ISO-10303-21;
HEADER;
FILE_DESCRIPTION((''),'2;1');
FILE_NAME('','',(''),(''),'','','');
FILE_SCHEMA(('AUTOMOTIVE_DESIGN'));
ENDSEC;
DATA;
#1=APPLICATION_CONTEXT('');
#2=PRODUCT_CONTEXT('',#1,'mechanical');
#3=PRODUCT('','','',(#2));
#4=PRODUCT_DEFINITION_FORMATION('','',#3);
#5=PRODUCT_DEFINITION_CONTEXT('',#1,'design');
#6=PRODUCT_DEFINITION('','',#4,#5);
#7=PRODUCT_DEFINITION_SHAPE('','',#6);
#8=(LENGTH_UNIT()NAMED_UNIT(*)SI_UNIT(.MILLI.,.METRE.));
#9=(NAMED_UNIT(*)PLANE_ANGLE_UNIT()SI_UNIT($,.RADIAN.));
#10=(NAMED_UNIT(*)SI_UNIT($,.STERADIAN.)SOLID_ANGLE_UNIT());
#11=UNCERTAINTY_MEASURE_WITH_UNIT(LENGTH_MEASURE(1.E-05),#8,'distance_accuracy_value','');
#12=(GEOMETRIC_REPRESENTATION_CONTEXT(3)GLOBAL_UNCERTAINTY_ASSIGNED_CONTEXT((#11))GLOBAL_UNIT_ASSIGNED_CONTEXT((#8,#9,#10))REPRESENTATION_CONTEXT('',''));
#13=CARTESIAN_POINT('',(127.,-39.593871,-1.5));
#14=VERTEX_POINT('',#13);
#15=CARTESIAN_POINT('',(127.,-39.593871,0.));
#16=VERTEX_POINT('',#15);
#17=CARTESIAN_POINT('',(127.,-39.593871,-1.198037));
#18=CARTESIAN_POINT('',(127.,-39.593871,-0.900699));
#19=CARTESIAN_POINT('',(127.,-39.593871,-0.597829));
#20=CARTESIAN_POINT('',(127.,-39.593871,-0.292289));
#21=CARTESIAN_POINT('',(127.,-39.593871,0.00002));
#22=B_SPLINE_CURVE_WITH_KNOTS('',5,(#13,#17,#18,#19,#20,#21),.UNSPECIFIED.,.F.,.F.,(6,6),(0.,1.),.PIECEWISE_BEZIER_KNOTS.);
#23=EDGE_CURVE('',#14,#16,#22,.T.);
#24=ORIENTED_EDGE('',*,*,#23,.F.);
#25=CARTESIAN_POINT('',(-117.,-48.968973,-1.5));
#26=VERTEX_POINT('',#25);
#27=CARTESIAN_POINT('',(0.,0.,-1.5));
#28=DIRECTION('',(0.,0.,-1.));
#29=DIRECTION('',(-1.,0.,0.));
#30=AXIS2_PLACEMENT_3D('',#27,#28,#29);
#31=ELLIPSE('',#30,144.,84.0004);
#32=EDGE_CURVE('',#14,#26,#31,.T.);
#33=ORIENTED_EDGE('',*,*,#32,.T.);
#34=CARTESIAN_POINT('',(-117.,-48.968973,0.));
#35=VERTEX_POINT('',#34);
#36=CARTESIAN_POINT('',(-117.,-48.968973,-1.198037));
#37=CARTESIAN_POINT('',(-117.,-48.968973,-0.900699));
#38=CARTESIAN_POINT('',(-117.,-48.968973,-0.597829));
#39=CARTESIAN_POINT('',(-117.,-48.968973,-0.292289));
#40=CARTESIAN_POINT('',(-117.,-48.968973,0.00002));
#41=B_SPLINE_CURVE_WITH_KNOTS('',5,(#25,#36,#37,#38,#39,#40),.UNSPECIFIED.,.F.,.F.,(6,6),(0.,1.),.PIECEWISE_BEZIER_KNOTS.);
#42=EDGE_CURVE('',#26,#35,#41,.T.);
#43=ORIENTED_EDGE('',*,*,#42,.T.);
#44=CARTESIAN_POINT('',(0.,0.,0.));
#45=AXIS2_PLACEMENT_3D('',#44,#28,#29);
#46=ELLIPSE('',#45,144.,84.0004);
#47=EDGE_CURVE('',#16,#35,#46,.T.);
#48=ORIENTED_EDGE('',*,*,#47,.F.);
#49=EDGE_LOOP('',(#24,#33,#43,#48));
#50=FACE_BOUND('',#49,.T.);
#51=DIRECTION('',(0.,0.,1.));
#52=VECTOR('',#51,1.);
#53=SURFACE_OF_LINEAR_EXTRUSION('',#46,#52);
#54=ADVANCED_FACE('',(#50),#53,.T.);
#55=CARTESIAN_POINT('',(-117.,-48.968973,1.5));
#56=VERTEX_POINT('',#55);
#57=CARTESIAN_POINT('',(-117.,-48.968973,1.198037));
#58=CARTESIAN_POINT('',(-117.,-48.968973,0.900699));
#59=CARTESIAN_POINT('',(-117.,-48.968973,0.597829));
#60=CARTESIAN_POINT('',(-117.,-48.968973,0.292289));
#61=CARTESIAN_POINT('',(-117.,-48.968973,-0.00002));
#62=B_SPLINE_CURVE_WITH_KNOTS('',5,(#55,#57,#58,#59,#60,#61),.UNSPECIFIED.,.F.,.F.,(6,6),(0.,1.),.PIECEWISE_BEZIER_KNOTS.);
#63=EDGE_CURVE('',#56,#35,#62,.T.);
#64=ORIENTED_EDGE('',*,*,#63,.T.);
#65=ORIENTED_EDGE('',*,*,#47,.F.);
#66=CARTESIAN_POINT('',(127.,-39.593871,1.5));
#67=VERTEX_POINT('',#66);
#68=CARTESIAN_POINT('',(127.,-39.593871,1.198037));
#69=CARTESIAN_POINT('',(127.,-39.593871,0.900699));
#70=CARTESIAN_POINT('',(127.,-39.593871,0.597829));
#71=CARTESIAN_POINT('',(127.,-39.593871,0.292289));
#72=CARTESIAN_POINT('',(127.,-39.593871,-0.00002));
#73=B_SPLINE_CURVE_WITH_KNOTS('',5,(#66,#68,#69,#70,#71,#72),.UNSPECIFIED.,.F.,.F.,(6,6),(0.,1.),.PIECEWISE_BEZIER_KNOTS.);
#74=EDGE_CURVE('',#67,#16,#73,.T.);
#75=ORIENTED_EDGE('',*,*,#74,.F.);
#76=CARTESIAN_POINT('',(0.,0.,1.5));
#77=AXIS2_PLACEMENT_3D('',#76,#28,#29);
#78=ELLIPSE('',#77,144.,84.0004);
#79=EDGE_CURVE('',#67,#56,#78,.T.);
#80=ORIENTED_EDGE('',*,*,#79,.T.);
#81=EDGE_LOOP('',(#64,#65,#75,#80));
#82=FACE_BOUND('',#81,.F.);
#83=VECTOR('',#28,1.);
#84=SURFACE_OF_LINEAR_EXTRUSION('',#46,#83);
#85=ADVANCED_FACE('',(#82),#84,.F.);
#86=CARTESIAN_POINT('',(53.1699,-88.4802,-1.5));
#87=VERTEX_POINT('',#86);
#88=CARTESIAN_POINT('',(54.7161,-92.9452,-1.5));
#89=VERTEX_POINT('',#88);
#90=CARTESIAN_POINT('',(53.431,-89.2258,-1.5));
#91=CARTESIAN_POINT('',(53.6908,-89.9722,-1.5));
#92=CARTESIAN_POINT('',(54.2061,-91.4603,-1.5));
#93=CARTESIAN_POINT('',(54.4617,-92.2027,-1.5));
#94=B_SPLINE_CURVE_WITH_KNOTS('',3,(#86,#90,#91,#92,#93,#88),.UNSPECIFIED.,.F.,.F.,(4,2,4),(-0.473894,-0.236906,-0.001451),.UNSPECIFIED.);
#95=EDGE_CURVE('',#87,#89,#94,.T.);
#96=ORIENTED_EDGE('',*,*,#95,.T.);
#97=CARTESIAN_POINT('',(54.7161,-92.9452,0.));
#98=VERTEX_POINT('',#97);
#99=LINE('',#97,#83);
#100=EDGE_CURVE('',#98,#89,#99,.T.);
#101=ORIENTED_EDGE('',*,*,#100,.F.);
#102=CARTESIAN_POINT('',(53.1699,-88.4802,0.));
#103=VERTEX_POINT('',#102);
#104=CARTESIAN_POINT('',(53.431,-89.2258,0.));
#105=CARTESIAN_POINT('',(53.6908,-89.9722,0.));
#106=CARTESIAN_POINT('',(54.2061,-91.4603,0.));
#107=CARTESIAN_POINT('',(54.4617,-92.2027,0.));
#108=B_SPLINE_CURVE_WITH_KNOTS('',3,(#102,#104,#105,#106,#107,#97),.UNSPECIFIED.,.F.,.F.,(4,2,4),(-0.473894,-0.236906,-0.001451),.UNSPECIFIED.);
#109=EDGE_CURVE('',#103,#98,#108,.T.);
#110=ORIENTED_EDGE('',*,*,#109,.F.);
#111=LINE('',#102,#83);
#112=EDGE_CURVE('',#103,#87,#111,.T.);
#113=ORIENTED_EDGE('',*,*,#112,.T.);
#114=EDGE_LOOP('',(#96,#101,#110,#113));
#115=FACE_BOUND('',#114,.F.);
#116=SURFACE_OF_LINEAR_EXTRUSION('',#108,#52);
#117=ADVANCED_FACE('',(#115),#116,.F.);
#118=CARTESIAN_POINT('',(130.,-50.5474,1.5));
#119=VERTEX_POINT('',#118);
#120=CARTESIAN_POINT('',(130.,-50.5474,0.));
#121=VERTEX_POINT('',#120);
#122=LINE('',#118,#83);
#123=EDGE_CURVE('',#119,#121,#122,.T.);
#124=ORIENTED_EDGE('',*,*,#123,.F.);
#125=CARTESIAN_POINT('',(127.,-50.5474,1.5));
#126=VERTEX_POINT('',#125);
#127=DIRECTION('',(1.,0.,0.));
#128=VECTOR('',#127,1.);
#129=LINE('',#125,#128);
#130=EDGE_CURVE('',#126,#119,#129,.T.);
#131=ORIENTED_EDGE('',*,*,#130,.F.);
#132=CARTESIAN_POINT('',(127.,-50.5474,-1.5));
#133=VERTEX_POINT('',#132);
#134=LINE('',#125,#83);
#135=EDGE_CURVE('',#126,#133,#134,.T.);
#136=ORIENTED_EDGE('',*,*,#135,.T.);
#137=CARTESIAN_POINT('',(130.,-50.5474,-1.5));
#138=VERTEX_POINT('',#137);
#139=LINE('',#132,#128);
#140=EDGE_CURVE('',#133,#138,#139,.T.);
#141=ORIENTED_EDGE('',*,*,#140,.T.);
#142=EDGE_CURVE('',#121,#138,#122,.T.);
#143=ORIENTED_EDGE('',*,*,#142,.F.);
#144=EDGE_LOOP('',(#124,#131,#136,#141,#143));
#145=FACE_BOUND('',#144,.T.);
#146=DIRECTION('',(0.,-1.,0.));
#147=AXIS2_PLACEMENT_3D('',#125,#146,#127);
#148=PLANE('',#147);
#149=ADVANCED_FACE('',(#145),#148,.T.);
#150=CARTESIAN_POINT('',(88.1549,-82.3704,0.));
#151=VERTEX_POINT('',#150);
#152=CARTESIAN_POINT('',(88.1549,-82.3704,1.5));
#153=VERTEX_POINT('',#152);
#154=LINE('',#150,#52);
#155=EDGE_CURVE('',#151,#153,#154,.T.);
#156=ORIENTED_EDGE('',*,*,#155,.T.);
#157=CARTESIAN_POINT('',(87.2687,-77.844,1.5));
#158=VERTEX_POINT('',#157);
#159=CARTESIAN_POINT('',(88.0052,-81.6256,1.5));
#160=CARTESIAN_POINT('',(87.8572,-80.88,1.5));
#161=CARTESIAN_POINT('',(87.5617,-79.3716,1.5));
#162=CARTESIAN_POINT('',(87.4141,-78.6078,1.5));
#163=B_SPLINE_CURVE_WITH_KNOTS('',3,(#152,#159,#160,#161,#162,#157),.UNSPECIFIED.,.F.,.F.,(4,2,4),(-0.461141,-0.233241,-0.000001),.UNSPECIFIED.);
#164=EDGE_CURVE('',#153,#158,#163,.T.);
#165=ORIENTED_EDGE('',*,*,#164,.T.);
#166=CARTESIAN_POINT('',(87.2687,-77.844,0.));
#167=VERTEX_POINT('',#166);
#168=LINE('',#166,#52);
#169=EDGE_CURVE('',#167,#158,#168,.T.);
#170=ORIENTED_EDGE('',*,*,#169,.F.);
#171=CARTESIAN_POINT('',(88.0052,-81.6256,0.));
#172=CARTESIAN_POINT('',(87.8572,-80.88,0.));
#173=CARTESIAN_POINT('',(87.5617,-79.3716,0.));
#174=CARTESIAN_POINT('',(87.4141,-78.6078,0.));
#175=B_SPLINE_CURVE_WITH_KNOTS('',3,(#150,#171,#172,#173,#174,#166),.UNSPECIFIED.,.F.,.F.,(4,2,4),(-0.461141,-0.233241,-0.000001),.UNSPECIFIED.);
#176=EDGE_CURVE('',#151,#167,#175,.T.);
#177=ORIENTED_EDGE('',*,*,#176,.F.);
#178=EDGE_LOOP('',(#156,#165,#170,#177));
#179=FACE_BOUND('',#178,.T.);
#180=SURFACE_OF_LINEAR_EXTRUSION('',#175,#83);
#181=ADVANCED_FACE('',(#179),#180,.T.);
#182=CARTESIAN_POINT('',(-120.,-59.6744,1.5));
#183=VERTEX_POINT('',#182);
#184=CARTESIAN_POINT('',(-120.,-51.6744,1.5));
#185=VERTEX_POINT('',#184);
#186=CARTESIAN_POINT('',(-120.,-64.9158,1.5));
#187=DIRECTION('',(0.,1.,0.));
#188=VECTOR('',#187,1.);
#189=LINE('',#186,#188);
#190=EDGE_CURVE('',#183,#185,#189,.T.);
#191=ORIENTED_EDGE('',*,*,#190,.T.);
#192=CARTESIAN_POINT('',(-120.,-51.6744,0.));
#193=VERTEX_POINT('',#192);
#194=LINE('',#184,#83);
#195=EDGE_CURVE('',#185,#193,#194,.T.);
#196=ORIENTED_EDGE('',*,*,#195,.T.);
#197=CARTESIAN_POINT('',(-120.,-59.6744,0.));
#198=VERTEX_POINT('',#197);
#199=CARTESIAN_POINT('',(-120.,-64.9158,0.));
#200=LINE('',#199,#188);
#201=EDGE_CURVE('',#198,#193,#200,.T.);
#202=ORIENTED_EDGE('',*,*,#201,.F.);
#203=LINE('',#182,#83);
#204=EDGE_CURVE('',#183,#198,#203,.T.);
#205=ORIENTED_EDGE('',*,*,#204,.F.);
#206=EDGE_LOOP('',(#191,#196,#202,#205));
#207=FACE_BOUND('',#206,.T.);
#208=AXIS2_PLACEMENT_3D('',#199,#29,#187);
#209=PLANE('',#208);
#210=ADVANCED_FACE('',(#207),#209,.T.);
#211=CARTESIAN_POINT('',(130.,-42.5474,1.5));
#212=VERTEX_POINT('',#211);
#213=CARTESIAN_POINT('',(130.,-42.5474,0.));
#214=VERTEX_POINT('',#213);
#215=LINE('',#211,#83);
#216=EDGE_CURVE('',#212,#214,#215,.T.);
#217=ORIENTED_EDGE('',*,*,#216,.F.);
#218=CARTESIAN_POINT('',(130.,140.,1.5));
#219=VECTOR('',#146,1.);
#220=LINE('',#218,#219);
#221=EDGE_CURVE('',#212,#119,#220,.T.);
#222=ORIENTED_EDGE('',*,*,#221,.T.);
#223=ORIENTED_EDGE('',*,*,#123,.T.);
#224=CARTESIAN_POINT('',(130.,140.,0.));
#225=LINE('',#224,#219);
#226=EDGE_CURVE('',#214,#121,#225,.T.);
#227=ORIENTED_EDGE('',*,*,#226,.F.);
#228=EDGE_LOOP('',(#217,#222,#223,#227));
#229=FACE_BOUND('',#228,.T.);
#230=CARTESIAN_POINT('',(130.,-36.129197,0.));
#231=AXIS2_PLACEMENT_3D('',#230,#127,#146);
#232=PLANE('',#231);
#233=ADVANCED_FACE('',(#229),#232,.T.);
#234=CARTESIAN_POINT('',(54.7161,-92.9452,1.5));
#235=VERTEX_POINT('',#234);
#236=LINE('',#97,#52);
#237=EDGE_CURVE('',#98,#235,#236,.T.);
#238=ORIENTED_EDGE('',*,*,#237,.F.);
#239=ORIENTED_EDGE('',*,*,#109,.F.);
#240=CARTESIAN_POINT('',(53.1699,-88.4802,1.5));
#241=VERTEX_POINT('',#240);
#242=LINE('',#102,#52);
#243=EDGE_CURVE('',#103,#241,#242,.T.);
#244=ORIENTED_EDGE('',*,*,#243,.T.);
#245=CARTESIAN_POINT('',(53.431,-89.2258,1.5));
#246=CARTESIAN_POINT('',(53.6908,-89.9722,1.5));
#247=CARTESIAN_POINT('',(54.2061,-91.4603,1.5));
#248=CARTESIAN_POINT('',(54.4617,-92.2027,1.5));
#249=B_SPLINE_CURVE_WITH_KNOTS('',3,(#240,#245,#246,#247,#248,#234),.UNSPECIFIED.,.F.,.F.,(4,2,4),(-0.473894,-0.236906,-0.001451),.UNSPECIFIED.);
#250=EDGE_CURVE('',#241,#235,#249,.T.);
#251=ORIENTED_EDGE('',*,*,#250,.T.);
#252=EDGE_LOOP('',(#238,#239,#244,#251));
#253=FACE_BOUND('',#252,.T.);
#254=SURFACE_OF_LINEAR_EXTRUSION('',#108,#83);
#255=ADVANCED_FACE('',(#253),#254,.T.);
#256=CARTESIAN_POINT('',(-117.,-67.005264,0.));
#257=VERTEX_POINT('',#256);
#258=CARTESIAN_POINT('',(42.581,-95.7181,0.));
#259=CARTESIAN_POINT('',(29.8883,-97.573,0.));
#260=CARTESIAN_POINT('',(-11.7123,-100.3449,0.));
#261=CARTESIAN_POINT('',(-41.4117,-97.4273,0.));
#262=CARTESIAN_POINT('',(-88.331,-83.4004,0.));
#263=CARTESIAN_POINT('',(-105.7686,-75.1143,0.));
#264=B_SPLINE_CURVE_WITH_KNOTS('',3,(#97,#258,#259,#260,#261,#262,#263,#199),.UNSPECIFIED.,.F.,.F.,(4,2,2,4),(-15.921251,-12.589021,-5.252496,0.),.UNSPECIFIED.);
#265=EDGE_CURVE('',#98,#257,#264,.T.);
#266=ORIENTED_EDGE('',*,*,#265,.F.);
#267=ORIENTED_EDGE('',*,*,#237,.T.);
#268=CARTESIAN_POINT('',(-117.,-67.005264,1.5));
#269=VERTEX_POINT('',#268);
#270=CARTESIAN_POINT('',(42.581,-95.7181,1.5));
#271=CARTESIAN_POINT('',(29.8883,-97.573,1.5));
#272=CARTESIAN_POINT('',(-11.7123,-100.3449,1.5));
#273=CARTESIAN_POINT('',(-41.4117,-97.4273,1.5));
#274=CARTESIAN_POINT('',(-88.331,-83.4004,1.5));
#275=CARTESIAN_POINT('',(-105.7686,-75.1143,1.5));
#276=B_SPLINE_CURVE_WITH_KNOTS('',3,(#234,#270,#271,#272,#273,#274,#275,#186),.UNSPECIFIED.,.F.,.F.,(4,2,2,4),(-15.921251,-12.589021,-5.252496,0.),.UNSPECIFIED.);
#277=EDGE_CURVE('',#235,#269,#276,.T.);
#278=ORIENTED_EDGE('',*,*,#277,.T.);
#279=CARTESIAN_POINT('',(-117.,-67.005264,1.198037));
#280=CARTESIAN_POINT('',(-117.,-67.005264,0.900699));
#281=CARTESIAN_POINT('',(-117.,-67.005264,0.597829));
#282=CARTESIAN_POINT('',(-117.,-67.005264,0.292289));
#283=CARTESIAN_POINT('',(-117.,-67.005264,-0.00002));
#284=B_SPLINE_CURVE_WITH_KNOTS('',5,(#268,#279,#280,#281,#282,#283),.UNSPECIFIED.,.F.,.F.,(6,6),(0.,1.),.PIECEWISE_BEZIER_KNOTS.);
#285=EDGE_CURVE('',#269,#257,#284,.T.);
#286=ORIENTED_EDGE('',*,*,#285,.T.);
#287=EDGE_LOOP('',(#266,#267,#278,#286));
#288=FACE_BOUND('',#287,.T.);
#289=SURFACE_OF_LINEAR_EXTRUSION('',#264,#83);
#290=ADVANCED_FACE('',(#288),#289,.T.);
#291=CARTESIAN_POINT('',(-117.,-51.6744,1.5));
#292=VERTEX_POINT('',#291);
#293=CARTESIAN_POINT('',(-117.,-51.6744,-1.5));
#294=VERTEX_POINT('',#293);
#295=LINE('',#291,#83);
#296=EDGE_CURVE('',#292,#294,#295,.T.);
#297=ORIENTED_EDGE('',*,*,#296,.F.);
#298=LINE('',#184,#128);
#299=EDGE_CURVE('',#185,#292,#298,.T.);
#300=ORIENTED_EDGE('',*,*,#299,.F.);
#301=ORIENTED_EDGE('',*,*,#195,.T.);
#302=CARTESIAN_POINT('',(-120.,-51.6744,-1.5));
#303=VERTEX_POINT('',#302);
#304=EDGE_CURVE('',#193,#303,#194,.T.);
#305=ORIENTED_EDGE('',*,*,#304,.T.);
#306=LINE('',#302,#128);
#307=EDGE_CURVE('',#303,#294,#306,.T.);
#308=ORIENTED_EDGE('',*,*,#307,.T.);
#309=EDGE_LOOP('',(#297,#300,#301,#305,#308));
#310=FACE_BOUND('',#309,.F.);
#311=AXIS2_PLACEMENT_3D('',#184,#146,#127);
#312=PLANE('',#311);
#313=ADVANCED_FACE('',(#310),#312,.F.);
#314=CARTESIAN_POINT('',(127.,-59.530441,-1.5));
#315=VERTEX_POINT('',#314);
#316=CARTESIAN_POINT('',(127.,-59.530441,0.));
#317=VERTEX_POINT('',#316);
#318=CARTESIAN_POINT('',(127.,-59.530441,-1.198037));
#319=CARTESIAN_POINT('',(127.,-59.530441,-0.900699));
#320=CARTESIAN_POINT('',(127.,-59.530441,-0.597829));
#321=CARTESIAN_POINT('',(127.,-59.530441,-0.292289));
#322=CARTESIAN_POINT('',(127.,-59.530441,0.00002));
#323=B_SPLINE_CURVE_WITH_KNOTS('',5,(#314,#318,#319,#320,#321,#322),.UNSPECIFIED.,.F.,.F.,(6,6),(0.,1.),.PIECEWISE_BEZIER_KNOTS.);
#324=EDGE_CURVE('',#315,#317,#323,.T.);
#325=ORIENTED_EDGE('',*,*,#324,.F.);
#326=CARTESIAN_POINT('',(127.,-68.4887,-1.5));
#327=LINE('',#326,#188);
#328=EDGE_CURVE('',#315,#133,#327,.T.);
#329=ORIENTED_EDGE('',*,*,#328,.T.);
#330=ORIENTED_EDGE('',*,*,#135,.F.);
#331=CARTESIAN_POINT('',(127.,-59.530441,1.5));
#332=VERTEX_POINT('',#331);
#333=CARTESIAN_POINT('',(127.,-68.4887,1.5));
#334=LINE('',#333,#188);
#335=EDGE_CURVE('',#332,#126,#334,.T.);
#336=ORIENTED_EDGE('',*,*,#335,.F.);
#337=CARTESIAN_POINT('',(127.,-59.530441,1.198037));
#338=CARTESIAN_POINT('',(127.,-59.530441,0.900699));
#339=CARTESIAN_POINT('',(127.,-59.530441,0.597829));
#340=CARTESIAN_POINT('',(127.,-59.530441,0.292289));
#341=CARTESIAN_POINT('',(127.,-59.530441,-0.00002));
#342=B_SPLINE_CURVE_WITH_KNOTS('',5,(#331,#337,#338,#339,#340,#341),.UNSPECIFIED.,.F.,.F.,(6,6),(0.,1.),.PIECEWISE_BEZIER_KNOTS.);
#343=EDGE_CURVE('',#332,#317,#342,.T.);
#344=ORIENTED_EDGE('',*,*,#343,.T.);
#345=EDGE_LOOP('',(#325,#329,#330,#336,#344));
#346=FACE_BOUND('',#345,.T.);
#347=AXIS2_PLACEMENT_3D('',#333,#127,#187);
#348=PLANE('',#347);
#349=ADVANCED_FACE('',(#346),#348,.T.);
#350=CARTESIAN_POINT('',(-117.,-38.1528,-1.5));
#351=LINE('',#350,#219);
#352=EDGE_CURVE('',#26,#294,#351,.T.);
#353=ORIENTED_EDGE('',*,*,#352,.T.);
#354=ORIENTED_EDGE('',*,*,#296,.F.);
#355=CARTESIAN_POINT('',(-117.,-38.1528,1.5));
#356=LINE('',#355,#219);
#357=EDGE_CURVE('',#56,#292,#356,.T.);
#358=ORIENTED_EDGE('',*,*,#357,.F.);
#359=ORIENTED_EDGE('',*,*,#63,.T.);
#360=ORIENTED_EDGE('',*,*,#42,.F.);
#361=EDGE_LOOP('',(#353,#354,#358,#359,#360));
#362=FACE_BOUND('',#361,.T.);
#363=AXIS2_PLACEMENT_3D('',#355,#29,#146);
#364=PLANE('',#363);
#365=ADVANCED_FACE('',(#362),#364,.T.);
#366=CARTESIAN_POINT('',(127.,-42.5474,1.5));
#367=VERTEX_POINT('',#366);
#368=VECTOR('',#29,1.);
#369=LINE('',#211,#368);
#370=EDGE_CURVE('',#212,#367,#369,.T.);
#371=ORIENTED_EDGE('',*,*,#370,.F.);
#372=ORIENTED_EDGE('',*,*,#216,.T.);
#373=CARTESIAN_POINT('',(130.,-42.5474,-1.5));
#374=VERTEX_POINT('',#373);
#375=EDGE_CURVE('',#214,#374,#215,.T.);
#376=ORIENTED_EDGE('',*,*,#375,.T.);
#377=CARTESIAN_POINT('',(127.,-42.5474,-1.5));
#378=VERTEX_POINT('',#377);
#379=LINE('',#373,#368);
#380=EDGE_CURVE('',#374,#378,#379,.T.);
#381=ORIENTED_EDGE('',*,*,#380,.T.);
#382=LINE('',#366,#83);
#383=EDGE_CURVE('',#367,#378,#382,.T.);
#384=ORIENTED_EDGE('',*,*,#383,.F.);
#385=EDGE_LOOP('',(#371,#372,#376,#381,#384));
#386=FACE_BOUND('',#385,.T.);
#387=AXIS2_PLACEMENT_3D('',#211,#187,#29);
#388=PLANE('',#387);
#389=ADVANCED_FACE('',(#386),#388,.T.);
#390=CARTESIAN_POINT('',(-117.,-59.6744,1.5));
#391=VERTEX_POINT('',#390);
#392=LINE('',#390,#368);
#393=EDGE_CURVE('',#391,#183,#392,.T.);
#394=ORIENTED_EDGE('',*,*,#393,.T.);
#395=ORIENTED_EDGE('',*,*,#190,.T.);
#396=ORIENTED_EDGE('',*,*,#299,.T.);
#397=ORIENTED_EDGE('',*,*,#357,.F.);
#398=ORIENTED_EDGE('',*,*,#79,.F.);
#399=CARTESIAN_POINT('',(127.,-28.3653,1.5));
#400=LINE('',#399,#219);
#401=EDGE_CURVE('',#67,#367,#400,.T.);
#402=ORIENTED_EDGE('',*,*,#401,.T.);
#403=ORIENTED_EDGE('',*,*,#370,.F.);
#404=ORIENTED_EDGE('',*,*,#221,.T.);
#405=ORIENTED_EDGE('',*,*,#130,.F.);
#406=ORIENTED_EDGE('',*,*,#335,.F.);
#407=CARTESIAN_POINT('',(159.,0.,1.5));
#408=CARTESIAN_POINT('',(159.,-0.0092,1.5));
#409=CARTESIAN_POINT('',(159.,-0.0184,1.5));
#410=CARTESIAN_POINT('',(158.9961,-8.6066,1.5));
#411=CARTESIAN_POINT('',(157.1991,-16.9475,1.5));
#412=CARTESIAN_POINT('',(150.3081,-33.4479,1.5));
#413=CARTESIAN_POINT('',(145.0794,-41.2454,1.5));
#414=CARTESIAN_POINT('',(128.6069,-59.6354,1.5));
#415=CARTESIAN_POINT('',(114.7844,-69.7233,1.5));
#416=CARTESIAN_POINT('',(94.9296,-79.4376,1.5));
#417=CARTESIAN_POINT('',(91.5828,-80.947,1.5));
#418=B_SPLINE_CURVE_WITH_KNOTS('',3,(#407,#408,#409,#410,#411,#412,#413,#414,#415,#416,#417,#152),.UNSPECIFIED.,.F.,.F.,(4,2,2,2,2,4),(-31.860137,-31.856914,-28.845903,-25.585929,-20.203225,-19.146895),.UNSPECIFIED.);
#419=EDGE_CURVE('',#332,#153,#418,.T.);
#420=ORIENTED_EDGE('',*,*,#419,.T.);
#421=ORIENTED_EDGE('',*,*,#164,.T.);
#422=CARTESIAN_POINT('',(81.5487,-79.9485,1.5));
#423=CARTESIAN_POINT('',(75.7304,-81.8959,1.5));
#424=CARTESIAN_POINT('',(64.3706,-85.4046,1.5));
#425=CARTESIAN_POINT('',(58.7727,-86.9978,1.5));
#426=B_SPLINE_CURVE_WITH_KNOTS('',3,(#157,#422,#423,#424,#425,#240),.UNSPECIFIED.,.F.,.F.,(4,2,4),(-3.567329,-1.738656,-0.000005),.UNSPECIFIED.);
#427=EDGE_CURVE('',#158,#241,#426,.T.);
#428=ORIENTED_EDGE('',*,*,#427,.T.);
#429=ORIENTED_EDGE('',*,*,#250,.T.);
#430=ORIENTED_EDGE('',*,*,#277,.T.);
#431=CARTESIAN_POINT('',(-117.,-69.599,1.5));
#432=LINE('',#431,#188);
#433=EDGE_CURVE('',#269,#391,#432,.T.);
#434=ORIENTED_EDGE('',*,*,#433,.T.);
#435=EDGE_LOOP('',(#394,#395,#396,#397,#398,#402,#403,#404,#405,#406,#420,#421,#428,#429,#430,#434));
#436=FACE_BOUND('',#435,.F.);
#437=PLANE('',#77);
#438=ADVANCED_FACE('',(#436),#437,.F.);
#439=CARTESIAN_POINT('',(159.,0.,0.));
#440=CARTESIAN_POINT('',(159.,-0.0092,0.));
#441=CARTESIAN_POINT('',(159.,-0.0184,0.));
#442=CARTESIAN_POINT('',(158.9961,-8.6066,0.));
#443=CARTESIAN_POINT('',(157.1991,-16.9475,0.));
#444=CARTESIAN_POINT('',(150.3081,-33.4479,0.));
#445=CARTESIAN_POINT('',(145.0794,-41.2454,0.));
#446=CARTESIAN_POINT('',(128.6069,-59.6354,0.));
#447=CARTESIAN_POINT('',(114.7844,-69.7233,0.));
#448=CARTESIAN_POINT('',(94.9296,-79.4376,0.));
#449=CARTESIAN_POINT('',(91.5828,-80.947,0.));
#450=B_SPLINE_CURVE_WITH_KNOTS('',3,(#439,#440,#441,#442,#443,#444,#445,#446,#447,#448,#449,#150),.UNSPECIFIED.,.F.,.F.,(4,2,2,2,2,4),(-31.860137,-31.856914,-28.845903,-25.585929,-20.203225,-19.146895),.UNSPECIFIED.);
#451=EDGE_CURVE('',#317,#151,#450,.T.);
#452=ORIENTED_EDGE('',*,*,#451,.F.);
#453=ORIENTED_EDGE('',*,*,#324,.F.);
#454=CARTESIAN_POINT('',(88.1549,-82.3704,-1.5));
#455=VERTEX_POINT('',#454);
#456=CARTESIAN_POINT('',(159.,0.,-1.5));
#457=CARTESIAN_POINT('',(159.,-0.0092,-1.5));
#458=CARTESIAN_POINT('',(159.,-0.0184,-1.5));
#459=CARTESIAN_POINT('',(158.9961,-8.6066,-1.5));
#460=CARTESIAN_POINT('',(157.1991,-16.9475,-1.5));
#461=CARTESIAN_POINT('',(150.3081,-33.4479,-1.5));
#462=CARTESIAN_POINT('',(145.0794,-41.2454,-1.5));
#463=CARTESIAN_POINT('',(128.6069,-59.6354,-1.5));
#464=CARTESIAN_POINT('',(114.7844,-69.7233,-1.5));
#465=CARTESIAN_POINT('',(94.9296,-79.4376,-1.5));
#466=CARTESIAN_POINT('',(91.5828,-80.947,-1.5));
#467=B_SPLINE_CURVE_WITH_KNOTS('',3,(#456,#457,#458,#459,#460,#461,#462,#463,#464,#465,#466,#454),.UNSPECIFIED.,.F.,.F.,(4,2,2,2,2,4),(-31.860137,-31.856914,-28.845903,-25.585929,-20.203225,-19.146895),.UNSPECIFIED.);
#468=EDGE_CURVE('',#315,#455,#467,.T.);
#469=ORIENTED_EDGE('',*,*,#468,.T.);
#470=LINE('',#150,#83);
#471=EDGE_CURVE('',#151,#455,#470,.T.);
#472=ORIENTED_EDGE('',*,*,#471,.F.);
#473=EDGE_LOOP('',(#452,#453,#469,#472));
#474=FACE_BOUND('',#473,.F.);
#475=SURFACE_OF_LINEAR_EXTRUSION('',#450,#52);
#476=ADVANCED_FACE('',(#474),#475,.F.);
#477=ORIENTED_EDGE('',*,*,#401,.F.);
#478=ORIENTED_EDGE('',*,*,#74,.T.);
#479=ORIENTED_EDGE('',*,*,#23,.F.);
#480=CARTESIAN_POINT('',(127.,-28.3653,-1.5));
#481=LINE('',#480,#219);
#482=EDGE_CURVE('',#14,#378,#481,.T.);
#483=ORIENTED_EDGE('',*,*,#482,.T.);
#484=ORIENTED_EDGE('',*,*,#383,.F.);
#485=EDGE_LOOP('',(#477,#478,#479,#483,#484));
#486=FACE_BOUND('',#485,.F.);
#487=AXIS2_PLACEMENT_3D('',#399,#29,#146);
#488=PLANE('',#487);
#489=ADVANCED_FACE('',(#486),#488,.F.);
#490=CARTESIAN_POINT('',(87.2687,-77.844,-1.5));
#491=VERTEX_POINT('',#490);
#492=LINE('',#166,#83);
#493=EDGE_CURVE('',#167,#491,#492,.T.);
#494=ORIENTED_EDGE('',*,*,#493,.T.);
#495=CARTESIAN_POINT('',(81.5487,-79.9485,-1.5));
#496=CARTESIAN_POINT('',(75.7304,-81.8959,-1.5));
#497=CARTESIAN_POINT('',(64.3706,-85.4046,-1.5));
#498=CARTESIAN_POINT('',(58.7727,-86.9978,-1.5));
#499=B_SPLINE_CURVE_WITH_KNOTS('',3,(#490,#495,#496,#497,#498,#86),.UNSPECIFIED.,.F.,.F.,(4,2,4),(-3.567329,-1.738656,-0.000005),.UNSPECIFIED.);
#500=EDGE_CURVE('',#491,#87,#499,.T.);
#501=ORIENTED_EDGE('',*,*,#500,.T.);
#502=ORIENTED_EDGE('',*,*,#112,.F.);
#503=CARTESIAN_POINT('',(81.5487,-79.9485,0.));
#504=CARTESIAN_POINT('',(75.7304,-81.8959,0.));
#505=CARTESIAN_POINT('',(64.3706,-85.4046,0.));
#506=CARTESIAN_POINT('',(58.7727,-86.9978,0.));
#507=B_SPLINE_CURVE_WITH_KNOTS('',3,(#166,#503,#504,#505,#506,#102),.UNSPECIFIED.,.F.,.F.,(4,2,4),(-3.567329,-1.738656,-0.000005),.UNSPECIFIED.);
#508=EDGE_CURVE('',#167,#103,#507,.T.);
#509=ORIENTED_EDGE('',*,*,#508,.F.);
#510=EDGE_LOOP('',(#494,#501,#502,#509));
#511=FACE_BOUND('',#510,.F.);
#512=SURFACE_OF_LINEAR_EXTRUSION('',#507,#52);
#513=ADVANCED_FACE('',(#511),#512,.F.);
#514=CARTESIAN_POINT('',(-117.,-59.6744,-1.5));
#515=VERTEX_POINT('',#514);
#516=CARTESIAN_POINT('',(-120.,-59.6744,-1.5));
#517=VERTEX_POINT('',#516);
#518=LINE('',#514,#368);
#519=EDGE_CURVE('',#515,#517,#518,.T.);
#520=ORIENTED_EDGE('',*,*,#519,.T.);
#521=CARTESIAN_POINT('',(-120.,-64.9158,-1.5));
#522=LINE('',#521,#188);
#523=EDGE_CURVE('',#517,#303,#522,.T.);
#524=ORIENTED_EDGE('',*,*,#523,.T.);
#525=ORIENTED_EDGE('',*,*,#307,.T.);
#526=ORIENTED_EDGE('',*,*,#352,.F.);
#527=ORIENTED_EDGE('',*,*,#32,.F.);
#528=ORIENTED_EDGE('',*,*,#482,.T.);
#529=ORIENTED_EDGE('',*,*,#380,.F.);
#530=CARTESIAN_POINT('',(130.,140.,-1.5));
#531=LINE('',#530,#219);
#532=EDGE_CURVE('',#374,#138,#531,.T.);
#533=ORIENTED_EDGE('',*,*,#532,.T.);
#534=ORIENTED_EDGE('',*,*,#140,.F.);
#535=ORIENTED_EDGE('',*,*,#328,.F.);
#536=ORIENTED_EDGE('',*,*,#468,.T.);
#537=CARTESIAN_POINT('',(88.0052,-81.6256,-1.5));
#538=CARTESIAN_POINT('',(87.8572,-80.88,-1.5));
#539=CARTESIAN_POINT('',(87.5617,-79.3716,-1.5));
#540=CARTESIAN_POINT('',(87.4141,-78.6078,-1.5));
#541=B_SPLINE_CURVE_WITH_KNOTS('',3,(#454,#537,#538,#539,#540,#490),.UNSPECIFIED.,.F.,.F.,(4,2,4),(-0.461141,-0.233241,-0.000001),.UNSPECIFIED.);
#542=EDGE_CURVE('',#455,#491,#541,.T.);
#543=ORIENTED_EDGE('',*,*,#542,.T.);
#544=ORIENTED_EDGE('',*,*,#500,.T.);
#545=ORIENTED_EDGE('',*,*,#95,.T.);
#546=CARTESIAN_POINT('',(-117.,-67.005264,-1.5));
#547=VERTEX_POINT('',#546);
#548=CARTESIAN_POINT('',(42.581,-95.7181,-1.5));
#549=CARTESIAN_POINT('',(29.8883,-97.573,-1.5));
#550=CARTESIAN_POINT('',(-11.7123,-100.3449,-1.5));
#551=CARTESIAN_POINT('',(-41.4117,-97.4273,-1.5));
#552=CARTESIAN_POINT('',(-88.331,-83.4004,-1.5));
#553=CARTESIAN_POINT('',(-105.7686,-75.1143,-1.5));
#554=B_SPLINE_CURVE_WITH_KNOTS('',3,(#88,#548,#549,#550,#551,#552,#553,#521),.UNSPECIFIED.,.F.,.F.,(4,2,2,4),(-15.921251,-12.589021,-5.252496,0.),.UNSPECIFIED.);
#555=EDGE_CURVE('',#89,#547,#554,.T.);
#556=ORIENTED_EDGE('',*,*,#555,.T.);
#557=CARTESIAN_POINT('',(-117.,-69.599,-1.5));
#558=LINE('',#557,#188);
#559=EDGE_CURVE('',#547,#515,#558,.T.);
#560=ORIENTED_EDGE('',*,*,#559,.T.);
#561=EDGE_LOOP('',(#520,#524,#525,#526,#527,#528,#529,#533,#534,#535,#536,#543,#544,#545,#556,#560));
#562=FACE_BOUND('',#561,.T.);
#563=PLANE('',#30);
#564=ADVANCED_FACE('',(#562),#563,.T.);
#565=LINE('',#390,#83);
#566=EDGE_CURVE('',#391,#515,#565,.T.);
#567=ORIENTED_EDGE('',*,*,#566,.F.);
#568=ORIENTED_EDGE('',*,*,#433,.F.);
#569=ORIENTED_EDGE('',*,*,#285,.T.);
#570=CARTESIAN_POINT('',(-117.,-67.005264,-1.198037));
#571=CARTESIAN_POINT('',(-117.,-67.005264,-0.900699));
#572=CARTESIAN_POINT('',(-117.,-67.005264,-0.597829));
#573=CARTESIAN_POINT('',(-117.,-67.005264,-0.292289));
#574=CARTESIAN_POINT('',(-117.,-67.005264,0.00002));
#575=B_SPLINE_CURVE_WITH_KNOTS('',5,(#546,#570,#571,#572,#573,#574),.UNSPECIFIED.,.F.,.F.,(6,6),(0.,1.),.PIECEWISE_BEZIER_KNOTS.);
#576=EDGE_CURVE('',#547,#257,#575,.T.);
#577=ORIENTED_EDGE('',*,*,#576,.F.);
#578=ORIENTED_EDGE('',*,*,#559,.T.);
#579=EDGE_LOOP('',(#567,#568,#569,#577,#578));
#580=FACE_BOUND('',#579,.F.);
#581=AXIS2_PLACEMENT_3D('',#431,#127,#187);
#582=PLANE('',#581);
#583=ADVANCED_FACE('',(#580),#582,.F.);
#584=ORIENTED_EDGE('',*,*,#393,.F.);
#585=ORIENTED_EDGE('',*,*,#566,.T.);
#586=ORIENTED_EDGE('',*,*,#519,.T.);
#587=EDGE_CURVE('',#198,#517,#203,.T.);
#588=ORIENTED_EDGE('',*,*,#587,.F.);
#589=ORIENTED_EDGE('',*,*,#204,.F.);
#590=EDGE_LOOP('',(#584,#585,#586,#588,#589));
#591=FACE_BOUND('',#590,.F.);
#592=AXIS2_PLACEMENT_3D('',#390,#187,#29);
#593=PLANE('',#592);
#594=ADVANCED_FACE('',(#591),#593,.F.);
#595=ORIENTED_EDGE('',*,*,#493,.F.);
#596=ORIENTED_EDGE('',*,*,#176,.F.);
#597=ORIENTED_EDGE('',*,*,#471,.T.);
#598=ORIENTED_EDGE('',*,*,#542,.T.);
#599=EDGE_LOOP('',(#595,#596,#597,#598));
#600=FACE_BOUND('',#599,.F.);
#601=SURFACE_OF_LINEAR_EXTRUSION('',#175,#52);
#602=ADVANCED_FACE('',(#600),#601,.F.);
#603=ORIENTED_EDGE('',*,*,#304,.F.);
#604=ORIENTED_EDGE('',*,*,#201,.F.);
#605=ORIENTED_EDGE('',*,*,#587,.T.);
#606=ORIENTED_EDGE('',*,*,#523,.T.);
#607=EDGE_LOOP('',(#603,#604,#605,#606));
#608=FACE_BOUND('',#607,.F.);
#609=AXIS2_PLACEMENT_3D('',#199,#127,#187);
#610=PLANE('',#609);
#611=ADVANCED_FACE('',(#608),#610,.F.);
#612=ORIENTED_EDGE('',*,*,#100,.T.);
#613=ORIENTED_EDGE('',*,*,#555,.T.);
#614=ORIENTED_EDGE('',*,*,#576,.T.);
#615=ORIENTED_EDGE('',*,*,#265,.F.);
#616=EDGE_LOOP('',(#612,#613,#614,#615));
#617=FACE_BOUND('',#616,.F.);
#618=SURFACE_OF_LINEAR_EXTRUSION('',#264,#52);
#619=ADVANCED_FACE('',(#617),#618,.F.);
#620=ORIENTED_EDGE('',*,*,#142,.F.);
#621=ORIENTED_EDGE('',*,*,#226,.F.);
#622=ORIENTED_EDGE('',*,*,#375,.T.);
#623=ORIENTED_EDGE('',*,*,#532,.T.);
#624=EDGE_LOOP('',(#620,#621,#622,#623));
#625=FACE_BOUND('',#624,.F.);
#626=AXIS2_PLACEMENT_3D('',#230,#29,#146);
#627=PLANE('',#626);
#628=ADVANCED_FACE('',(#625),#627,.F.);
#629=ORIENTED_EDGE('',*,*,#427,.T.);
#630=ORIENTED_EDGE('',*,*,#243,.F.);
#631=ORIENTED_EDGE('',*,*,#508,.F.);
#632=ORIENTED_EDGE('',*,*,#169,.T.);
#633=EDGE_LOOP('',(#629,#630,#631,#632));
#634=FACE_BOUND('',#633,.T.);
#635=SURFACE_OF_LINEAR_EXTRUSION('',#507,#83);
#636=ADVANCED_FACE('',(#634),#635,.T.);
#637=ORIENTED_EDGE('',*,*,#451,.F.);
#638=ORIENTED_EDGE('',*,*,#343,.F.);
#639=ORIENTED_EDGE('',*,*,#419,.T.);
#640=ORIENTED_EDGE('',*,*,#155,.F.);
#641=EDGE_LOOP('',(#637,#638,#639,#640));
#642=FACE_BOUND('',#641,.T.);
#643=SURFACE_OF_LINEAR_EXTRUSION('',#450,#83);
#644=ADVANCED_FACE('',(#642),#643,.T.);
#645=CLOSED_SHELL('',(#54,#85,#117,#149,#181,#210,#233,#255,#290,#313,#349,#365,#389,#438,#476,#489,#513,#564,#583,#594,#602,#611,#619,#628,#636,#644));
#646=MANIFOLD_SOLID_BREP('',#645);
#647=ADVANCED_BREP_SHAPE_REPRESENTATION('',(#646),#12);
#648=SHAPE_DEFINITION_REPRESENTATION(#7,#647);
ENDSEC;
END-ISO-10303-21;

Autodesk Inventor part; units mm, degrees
ref_plane "YZ Plane" through (0, 0, 0) normal (1, 0, 0) x (0, 1, 0)
ref_plane "XZ Plane" through (0, 0, 0) normal (0, 1, 0) x (-1, 0, 0)
ref_plane "XY Plane" through (0, 0, 0) normal (0, 0, 1) x (1, 0, 0)
ref_plane "Work Plane1" through (0, 0, 0) normal (0, 0, -1) x (-1, 0, 0)
sketch "Sketch1" plane through (0, 0, 0) normal (0, 0, -1) x (-1, 0, 0)
  spline S0 degree 3 poles (105.4883, 71.0587) (105.6559, 71.4694) (105.824, 71.88) (106.1569, 72.6904) (106.3216, 73.0904) (106.4867, 73.4901) knots -0.266162 -0.266162 -0.266162 -0.266162 -0.133087 -0.133087 -0.003341 -0.003341 -0.003341 -0.003341
  spline S1 degree 3 poles (106.4867, 73.4901) (99.3414, 77.5054) (91.623, 81.1106) (83.426, 84.2596) knots -25.895552 -25.895552 -25.895552 -25.895552 -23.89596 -23.89596 -23.89596 -23.89596
  spline S2 degree 3 poles (83.426, 84.2596) (83.383, 84.1862) (83.3401, 84.1127) (83.2498, 83.9584) (83.2025, 83.8776) (83.1552, 83.7967) knots -0.053633 -0.053633 -0.053633 -0.053633 -0.028107 -0.028107 0 0 0 0
  spline S3 degree 3 poles (83.1552, 83.7967) (82.995, 83.5034) (82.8346, 83.2101) (82.5137, 82.6238) (82.353, 82.3306) (82.1922, 82.0376) knots -0.200537 -0.200537 -0.200537 -0.200537 -0.100278 -0.100278 -0.000001 -0.000001 -0.000001 -0.000001
  spline S4 degree 3 poles (82.1922, 82.0376) (86.075, 80.3865) (89.9435, 78.6654) (97.7089, 75.0245) (101.6317, 73.0864) (105.4883, 71.0587) knots -2.573015 -2.573015 -2.573015 -2.573015 -1.307167 -1.307167 -0.00005 -0.00005 -0.00005 -0.00005
  spline S5 degree 3 poles (-58.9228, -91.9417) (-58.7749, -91.5277) (-58.6267, -91.1139) (-58.3286, -90.2835) (-58.1787, -89.8669) (-58.0284, -89.4505) knots -0.264733 -0.264733 -0.264733 -0.264733 -0.132868 -0.132868 -0.000055 -0.000055 -0.000055 -0.000055
  spline S6 degree 3 poles (-58.0284, -89.4505) (-62.2238, -88.2949) (-66.4105, -87.0769) (-74.8294, -84.4769) (-79.0836, -83.0842) (-83.2953, -81.6123) knots -2.643421 -2.643421 -2.643421 -2.643421 -1.338468 -1.338468 -0.000018 -0.000018 -0.000018 -0.000018
  spline S7 degree 3 poles (-83.2953, -81.6123) (-83.3681, -81.9392) (-83.4412, -82.2661) (-83.5877, -82.9196) (-83.6612, -83.2462) (-83.7349, -83.5728) knots -0.200918 -0.200918 -0.200918 -0.200918 -0.100445 -0.100445 0 0 0 0
  spline S8 degree 3 poles (-83.7349, -83.5728) (-83.7526, -83.6651) (-83.7703, -83.7574) (-83.8042, -83.9335) (-83.8204, -84.0175) (-83.8365, -84.1014) knots -0.056363 -0.056363 -0.056363 -0.056363 -0.02818 -0.02818 -0.002542 -0.002542 -0.002542 -0.002542
  spline S9 degree 3 poles (-83.8365, -84.1014) (-75.9007, -87.1708) (-67.5641, -89.7922) (-58.9228, -91.9417) knots -18.70759 -18.70759 -18.70759 -18.70759 -16.308401 -16.308401 -16.308401 -16.308401
  spline S10 degree 3 poles (-140.1561, 42.7052) (-140.5265, 42.9467) (-140.897, 43.1882) (-141.6163, 43.6575) (-141.9653, 43.8854) (-142.3142, 44.1132) knots -0.265285 -0.265285 -0.265285 -0.265285 -0.132646 -0.132646 -0.007633 -0.007633 -0.007633 -0.007633
  spline S11 degree 3 poles (-142.3142, 44.1132) (-146.1137, 39.3661) (-149.4383, 34.2577) (-152.1041, 28.8109) knots -4.827939 -4.827939 -4.827939 -4.827939 -3.006582 -3.006582 -3.006582 -3.006582
  spline S12 degree 3 poles (-152.1041, 28.8109) (-152.0643, 28.7818) (-152.0246, 28.7528) (-151.9093, 28.6685) (-151.8337, 28.6133) (-151.7582, 28.5581) knots -0.042842 -0.042842 -0.042842 -0.042842 -0.028073 -0.028073 -0.000004 -0.000004 -0.000004 -0.000004
  spline S13 degree 3 poles (-151.7582, 28.5581) (-151.4839, 28.3673) (-151.2096, 28.1764) (-150.6612, 27.7945) (-150.3869, 27.6033) (-150.1128, 27.4122) knots -0.200499 -0.200499 -0.200499 -0.200499 -0.100262 -0.100262 -0.000004 -0.000004 -0.000004 -0.000004
  spline S14 degree 3 poles (-150.1128, 27.4122) (-148.5536, 30.1288) (-146.8737, 32.8286) (-143.5422, 37.8978) (-141.8646, 40.3248) (-140.1561, 42.7052) knots -1.819993 -1.819993 -1.819993 -1.819993 -0.879034 -0.879034 -0.00001 -0.00001 -0.00001 -0.00001
  spline S15 degree 3 poles (-55.7728, -89.0282) (-55.9385, -89.4734) (-56.1038, -89.9189) (-56.4333, -90.8099) (-56.5976, -91.2556) (-56.7614, -91.7014) knots -0.285003 -0.285003 -0.285003 -0.285003 -0.142483 -0.142483 0 0 0 0
  spline S16 degree 3 poles (-56.7614, -91.7014) (-56.6983, -91.718) (-56.6352, -91.7345) (-56.509, -91.7676) (-56.4459, -91.7842) (-56.3828, -91.8007) knots -0.039143 -0.039143 -0.039143 -0.039143 -0.019569 -0.019569 0 0 0 0
  spline S17 degree 3 poles (-56.3828, -91.8007) (-56.222, -91.32) (-56.0607, -90.8394) (-55.7373, -89.8786) (-55.5752, -89.3983) (-55.4125, -88.9181) knots -0.30413 -0.30413 -0.30413 -0.30413 -0.152078 -0.152078 0 0 0 0
  spline S18 degree 3 poles (-55.4125, -88.9181) (-60.3959, -87.5747) (-65.3718, -86.1432) (-75.3762, -83.0506) (-80.443, -81.3711) (-85.4421, -79.5755) knots -3.141533 -3.141533 -3.141533 -3.141533 -1.593545 -1.593545 0 0 0 0
  spline S19 degree 3 poles (-85.4421, -79.5755) (-85.6008, -80.3472) (-85.7615, -81.1191) (-86.0831, -82.6482) (-86.2442, -83.4064) (-86.4067, -84.1638) knots -0.472496 -0.472496 -0.472496 -0.472496 -0.236135 -0.236135 -0.003733 -0.003733 -0.003733 -0.003733
  spline S20 degree 3 poles (-86.4067, -84.1638) (-90.9201, -82.3538) (-95.299, -80.3975) (-116.0195, -70.1094) (-129.7607, -59.9705) (-146.1593, -41.4596) (-151.3501, -33.6293) (-158.2079, -17.0493) (-159.9962, -8.6553) (-160, -0.0185) (-160, -0.0092) (-160, 0) knots -11.169519 -11.169519 -11.169519 -11.169519 -9.988301 -9.988301 -5.37837 -5.37837 -2.588261 -2.588261 0 0 0.002775 0.002775 0.002775 0.002775
  spline S21 degree 3 poles (-160, 0) (-160, 0.0092) (-160, 0.0185) (-159.9962, 8.6553) (-158.2079, 17.0493) (-154.5318, 25.937) (-154.1376, 26.8372) (-153.7259, 27.7288) knots -31.829362 -31.829362 -31.829362 -31.829362 -31.826146 -31.826146 -28.826161 -28.826161 -28.484445 -28.484445 -28.484445 -28.484445
  spline S22 degree 3 poles (-153.7259, 27.7288) (-153.1336, 27.3124) (-152.5409, 26.8949) (-151.3076, 26.0243) (-150.6649, 25.5695) (-150.024, 25.1147) knots -0.452924 -0.452924 -0.452924 -0.452924 -0.235762 -0.235762 0 0 0 0
  spline S23 degree 3 poles (-150.024, 25.1147) (-148.2187, 28.3868) (-146.2111, 31.6512) (-142.2626, 37.6605) (-140.2732, 40.5119) (-138.2471, 43.2948) knots -2.156978 -2.156978 -2.156978 -2.156978 -1.032693 -1.032693 0 0 0 0
  spline S24 degree 3 poles (-138.2471, 43.2948) (-138.666, 43.5795) (-139.085, 43.8644) (-139.9224, 44.4342) (-140.3412, 44.7193) (-140.7597, 45.0044) knots -0.303868 -0.303868 -0.303868 -0.303868 -0.151928 -0.151928 0 0 0 0
  spline S25 degree 3 poles (-140.7597, 45.0044) (-140.7862, 44.9688) (-140.8126, 44.9333) (-140.8655, 44.8622) (-140.8919, 44.8266) (-140.9183, 44.7911) knots -0.026582 -0.026582 -0.026582 -0.026582 -0.013294 -0.013294 0 0 0 0
  spline S26 degree 3 poles (-140.9183, 44.7911) (-140.5212, 44.5325) (-140.1238, 44.2739) (-139.3291, 43.7572) (-138.9316, 43.4988) (-138.5341, 43.2407) knots -0.284373 -0.284373 -0.284373 -0.284373 -0.142194 -0.142194 0 0 0 0
  spline S27 degree 3 poles (-138.5341, 43.2407) (-140.5827, 40.4214) (-142.5937, 37.5316) (-146.4382, 31.6576) (-148.3257, 28.5856) (-150.0388, 25.5027) knots -2.101071 -2.101071 -2.101071 -2.101071 -1.058051 -1.058051 0 0 0 0
  spline S28 degree 3 poles (-150.0388, 25.5027) (-150.4509, 25.7942) (-150.8636, 26.0856) (-151.6884, 26.6672) (-152.1012, 26.9578) (-152.5139, 27.2479) knots -0.302777 -0.302777 -0.302777 -0.302777 -0.151341 -0.151341 0 0 0 0
  spline S29 degree 3 poles (-152.5139, 27.2479) (-152.7152, 27.3968) (-152.9166, 27.5456) (-153.2728, 27.8086) (-153.4277, 27.9229) (-153.5827, 28.0371) knots -0.150173 -0.150173 -0.150173 -0.150173 -0.075073 -0.075073 -0.017326 -0.017326 -0.017326 -0.017326
  spline S30 degree 3 poles (-153.5827, 28.0371) (-150.1123, 35.463) (-145.4306, 42.2822) (-129.7607, 59.9705) (-116.0195, 70.1094) (-76.1689, 89.896) (-48.1593, 97.1685) (10.3236, 101.4292) (40.3067, 98.6374) (72.6866, 89.1455) (77.3003, 87.6154) (81.772, 85.9536) knots -28.445006 -28.445006 -28.445006 -28.445006 -25.59222 -25.59222 -20.248971 -20.248971 -12.682668 -12.682668 -5.317025 -5.317025 -4.052572 -4.052572 -4.052572 -4.052572
  spline S31 degree 3 poles (81.772, 85.9536) (81.3968, 85.2772) (81.0207, 84.6011) (80.261, 83.24) (79.8771, 82.5546) (79.4924, 81.87) knots -0.467618 -0.467618 -0.467618 -0.467618 -0.235584 -0.235584 0 0 0 0
  spline S32 degree 3 poles (79.4924, 81.87) (84.1061, 79.9441) (88.7048, 77.9202) (97.927, 73.5976) (102.5965, 71.2674) (107.162, 68.806) knots -3.056553 -3.056553 -3.056553 -3.056553 -1.556035 -1.556035 0 0 0 0
  spline S33 degree 3 poles (107.162, 68.806) (107.3625, 69.2729) (107.5637, 69.7398) (107.967, 70.6725) (108.1693, 71.1387) (108.372, 71.6045) knots -0.304859 -0.304859 -0.304859 -0.304859 -0.152403 -0.152403 0 0 0 0
  spline S34 degree 3 poles (108.372, 71.6045) (108.3114, 71.6376) (108.2508, 71.6707) (108.1296, 71.7369) (108.069, 71.7699) (108.0084, 71.8029) knots -0.041431 -0.041431 -0.041431 -0.041431 -0.020705 -0.020705 0 0 0 0
  spline S35 degree 3 poles (108.0084, 71.8029) (107.8317, 71.3605) (107.6555, 70.9178) (107.3043, 70.0319) (107.1293, 69.5884) (106.9549, 69.1449) knots -0.285892 -0.285892 -0.285892 -0.285892 -0.142982 -0.142982 0 0 0 0
  spline S36 degree 3 poles (106.9549, 69.1449) (102.4581, 71.5609) (97.862, 73.8503) (88.8578, 78.0679) (84.4081, 80.0293) (79.9435, 81.8987) knots -2.982662 -2.982662 -2.982662 -2.982662 -1.452066 -1.452066 0 0 0 0
  spline S37 degree 3 poles (79.9435, 81.8987) (80.1899, 82.3388) (80.4359, 82.7793) (80.9269, 83.6602) (81.172, 84.1009) (81.4166, 84.5417) knots -0.302566 -0.302566 -0.302566 -0.302566 -0.151255 -0.151255 0 0 0 0
  spline S38 degree 3 poles (81.4166, 84.5417) (81.5446, 84.757) (81.6725, 84.9724) (81.9225, 85.3939) (82.0446, 85.6002) (82.1667, 85.8065) knots -0.150242 -0.150242 -0.150242 -0.150242 -0.075112 -0.075112 -0.003204 -0.003204 -0.003204 -0.003204
  spline S39 degree 3 poles (82.1667, 85.8065) (96.3401, 80.5048) (109.0798, 73.8828) (120, 66.1438) knots -4.015333 -4.015333 -4.015333 -4.015333 0 0 0 0
  line L0 (120, 66.1438) -> (120, 64.9158)
  spline S40 degree 3 poles (120, 64.9158) (116.958, 67.0958) (113.7696, 69.1883) (110.4451, 71.1884) knots -27.230162 -27.230162 -27.230162 -27.230162 -26.2705 -26.2705 -26.2705 -26.2705
  spline S41 degree 3 poles (110.4451, 71.1884) (110.1445, 70.4793) (109.8452, 69.769) (109.2415, 68.3271) (108.9366, 67.5943) (108.6339, 66.8613) knots -0.468981 -0.468981 -0.468981 -0.468981 -0.237923 -0.237923 -0.000011 -0.000011 -0.000011 -0.000011
  spline S42 degree 3 poles (108.6339, 66.8613) (103.4133, 69.7415) (98.0406, 72.4439) (87.5696, 77.3439) (82.4064, 79.5941) (77.2296, 81.7217) knots -3.467821 -3.467821 -3.467821 -3.467821 -1.679111 -1.679111 -0.000008 -0.000008 -0.000008 -0.000008
  spline S43 degree 3 poles (77.2296, 81.7217) (77.6144, 82.3927) (77.9981, 83.0647) (78.7561, 84.3968) (79.1306, 85.0574) (79.504, 85.7183) knots -0.463944 -0.463944 -0.463944 -0.463944 -0.231888 -0.231888 -0.004157 -0.004157 -0.004157 -0.004157
  spline S44 degree 3 poles (79.504, 85.7183) (76.0004, 86.9793) (72.415, 88.1586) (41.4117, 97.4273) (11.7123, 100.3449) (-46.585, 96.4605) (-74.7083, 89.3312) (-114.7844, 69.7233) (-128.6069, 59.6354) (-139.3968, 47.5895) (-139.9204, 46.9907) (-140.4363, 46.3856) knots -23.579938 -23.579938 -23.579938 -23.579938 -22.740514 -22.740514 -16.469513 -16.469513 -9.96116 -9.96116 -5.360215 -5.360215 -5.122195 -5.122195 -5.122195 -5.122195
  spline S45 degree 3 poles (-140.4363, 46.3856) (-139.8213, 45.9676) (-139.2057, 45.5495) (-137.9379, 44.6893) (-137.2846, 44.2465) (-136.6316, 43.8045) knots -0.459695 -0.459695 -0.459695 -0.459695 -0.236626 -0.236626 -0.000067 -0.000067 -0.000067 -0.000067
  spline S46 degree 3 poles (-136.6316, 43.8045) (-139.0543, 40.5163) (-141.435, 37.1237) (-145.8862, 30.2958) (-148.0558, 26.7109) (-149.9507, 23.1379) knots -2.432531 -2.432531 -2.432531 -2.432531 -1.213323 -1.213323 -0.000041 -0.000041 -0.000041 -0.000041
  spline S47 degree 3 poles (-149.9507, 23.1379) (-150.5793, 23.5926) (-151.2102, 24.0472) (-152.4036, 24.904) (-152.9683, 25.3083) (-153.5328, 25.7113) knots -0.46512 -0.46512 -0.46512 -0.46512 -0.232385 -0.232385 -0.024389 -0.024389 -0.024389 -0.024389
  spline S48 degree 3 poles (-153.5328, 25.7113) (-153.6538, 25.4318) (-153.773, 25.1514) (-157.1991, 16.9475) (-158.9961, 8.6066) (-159, 0.0184) (-159, 0.0092) (-159, 0) knots -2.665061 -2.665061 -2.665061 -2.665061 -2.573705 -2.573705 0 0 0.002756 0.002756 0.002756 0.002756
  spline S49 degree 3 poles (-159, 0) (-159, -0.0092) (-159, -0.0184) (-158.9961, -8.6066) (-157.1991, -16.9475) (-150.3081, -33.4479) (-145.0794, -41.2454) (-128.6069, -59.6354) (-114.7844, -69.7233) (-94.9296, -79.4376) (-91.5828, -80.947) (-88.1549, -82.3704) knots -31.860137 -31.860137 -31.860137 -31.860137 -31.856914 -31.856914 -28.845903 -28.845903 -25.585929 -25.585929 -20.203225 -20.203225 -19.146895 -19.146895 -19.146895 -19.146895
  spline S50 degree 3 poles (-88.1549, -82.3704) (-88.0052, -81.6256) (-87.8572, -80.88) (-87.5617, -79.3716) (-87.4141, -78.6078) (-87.2687, -77.844) knots -0.461141 -0.461141 -0.461141 -0.461141 -0.233241 -0.233241 -0.000001 -0.000001 -0.000001 -0.000001
  spline S51 degree 3 poles (-87.2687, -77.844) (-81.5487, -79.9485) (-75.7304, -81.8959) (-64.3706, -85.4046) (-58.7727, -86.9978) (-53.1699, -88.4802) knots -3.567329 -3.567329 -3.567329 -3.567329 -1.738656 -1.738656 -0.000005 -0.000005 -0.000005 -0.000005
  spline S52 degree 3 poles (-53.1699, -88.4802) (-53.431, -89.2258) (-53.6908, -89.9722) (-54.2061, -91.4603) (-54.4617, -92.2027) (-54.7161, -92.9452) knots -0.473894 -0.473894 -0.473894 -0.473894 -0.236906 -0.236906 -0.001451 -0.001451 -0.001451 -0.001451
  spline S53 degree 3 poles (-54.7161, -92.9452) (-42.581, -95.7181) (-29.8883, -97.573) (11.7123, -100.3449) (41.4117, -97.4273) (88.331, -83.4004) (105.7686, -75.1143) (120, -64.9158) knots -15.921251 -15.921251 -15.921251 -15.921251 -12.589021 -12.589021 -5.252496 -5.252496 0 0 0 0
  line L1 (120, -64.9158) -> (120, -66.1438)
  spline S54 degree 3 poles (120, -66.1438) (105.5396, -76.3916) (87.8918, -84.6882) (40.3067, -98.6374) (10.3236, -101.4292) (-42.6253, -97.5717) (-65.6494, -92.43) (-85.9727, -84.3372) knots -27.458265 -27.458265 -27.458265 -27.458265 -22.870958 -22.870958 -16.51619 -16.51619 -11.207345 -11.207345 -11.207345 -11.207345
  spline S55 degree 3 poles (-85.9727, -84.3372) (-85.9295, -84.1013) (-85.8864, -83.8654) (-85.7984, -83.3821) (-85.7536, -83.1347) (-85.709, -82.8873) knots -0.147372 -0.147372 -0.147372 -0.147372 -0.075421 -0.075421 0 0 0 0
  spline S56 degree 3 poles (-85.709, -82.8873) (-85.6031, -82.3929) (-85.4977, -81.8982) (-85.2884, -80.9085) (-85.1844, -80.4132) (-85.081, -79.918) knots -0.303476 -0.303476 -0.303476 -0.303476 -0.151784 -0.151784 0 0 0 0
  spline S57 degree 3 poles (-85.081, -79.918) (-80.1681, -81.6744) (-75.1908, -83.3195) (-65.4257, -86.3336) (-60.6031, -87.7222) (-55.7728, -89.0282) knots -3.066818 -3.066818 -3.066818 -3.066818 -1.501137 -1.501137 0 0 0 0
  line L2 (-130, 140) -> (-130, -140)
  ellipse E0 centre (0, 0) end of major axis (0, -84.0004) minor radius 144 (-130, -36.1292) -> (120, -46.4329) ccw
  line L3 (120, -64.9158) -> (120, -46.4329)
  point P0 (-144, 0)
  point P1 (0.0014, -84.0004)
  point P2 (0.0014, -99.0004)
  point P3 (-130, -56.9656)
  dimension "d0" = 15
  dimension "d1" = 15
extrude "Extrusion1" add sketch "Sketch1" along normal mid plane 3 contours S53 S52 S51 S50 S49 L2 E0 L3
sketch "Sketch2" plane through (0, 0, 1.5) normal (0, 0, 1) x (1, 0, 0)
  line L0 (-117, -59.6744) -> (-120, -59.6744)
  line L1 (-120, -59.6744) -> (-120, -51.6744)
  line L2 (-120, -51.6744) -> (-117, -51.6744)
  line L3 (-117, -51.6744) -> (-117, -59.6744)
  line L4 (-120, -46.4329) -> (-120, -64.9158) projected
  line L5 (-117, -71.407) -> (-128.5796, -71.407)
  line L6 (-117, -59.6744) -> (-120, -59.6744)
  line L7 (-120, -59.6744) -> (-120, -69.599)
  line L8 (-120, -69.599) -> (-117, -69.599)
  line L9 (-117, -69.599) -> (-117, -59.6744)
  line L10 (-117, -51.6744) -> (-120, -51.6744)
  line L11 (-120, -51.6744) -> (-120, -38.1528)
  line L12 (-120, -38.1528) -> (-117, -38.1528)
  line L13 (-117, -38.1528) -> (-117, -51.6744)
  point P0 (0, 0)
  point P1 (-120, -55.6744)
  point P2 (-120, -51.6744)
  point P3 (-120, -59.6744)
  dimension "d4" = 3
  dimension "d5" = 8
extrude "Extrusion2" cut sketch "Sketch2" against normal blind 3 contours L9 L8 L7 L4 L0 | L2 L4 L11 L12 L13
sketch "Sketch3" plane through (0, 0, 1.5) normal (0, 0, 1) x (1, 0, 0)
  line L0 (130, -42.5474) -> (127, -42.5474)
  line L1 (127, -42.5474) -> (127, -50.5474)
  line L2 (127, -50.5474) -> (130, -50.5474)
  line L3 (130, -50.5474) -> (130, -42.5474)
  line L4 (130, -56.9656) -> (130, -36.1292) projected
  line L5 (127, -50.5474) -> (130, -50.5474)
  line L6 (130, -50.5474) -> (130, -68.4887)
  line L7 (130, -68.4887) -> (127, -68.4887)
  line L8 (127, -68.4887) -> (127, -50.5474)
  line L9 (127, -42.5474) -> (130, -42.5474)
  line L10 (130, -42.5474) -> (130, -28.3653)
  line L11 (130, -28.3653) -> (127, -28.3653)
  line L12 (127, -28.3653) -> (127, -42.5474)
  point P0 (0, 0)
  point P1 (130, -46.5474)
  dimension "d8" = 8
  dimension "d9" = 3
extrude "Extrusion3" cut sketch "Sketch3" against normal blind 3 contours L0 L12 L11 L10 L4 | L4 L6 L7 L8 L2
properties part number "Spant"
